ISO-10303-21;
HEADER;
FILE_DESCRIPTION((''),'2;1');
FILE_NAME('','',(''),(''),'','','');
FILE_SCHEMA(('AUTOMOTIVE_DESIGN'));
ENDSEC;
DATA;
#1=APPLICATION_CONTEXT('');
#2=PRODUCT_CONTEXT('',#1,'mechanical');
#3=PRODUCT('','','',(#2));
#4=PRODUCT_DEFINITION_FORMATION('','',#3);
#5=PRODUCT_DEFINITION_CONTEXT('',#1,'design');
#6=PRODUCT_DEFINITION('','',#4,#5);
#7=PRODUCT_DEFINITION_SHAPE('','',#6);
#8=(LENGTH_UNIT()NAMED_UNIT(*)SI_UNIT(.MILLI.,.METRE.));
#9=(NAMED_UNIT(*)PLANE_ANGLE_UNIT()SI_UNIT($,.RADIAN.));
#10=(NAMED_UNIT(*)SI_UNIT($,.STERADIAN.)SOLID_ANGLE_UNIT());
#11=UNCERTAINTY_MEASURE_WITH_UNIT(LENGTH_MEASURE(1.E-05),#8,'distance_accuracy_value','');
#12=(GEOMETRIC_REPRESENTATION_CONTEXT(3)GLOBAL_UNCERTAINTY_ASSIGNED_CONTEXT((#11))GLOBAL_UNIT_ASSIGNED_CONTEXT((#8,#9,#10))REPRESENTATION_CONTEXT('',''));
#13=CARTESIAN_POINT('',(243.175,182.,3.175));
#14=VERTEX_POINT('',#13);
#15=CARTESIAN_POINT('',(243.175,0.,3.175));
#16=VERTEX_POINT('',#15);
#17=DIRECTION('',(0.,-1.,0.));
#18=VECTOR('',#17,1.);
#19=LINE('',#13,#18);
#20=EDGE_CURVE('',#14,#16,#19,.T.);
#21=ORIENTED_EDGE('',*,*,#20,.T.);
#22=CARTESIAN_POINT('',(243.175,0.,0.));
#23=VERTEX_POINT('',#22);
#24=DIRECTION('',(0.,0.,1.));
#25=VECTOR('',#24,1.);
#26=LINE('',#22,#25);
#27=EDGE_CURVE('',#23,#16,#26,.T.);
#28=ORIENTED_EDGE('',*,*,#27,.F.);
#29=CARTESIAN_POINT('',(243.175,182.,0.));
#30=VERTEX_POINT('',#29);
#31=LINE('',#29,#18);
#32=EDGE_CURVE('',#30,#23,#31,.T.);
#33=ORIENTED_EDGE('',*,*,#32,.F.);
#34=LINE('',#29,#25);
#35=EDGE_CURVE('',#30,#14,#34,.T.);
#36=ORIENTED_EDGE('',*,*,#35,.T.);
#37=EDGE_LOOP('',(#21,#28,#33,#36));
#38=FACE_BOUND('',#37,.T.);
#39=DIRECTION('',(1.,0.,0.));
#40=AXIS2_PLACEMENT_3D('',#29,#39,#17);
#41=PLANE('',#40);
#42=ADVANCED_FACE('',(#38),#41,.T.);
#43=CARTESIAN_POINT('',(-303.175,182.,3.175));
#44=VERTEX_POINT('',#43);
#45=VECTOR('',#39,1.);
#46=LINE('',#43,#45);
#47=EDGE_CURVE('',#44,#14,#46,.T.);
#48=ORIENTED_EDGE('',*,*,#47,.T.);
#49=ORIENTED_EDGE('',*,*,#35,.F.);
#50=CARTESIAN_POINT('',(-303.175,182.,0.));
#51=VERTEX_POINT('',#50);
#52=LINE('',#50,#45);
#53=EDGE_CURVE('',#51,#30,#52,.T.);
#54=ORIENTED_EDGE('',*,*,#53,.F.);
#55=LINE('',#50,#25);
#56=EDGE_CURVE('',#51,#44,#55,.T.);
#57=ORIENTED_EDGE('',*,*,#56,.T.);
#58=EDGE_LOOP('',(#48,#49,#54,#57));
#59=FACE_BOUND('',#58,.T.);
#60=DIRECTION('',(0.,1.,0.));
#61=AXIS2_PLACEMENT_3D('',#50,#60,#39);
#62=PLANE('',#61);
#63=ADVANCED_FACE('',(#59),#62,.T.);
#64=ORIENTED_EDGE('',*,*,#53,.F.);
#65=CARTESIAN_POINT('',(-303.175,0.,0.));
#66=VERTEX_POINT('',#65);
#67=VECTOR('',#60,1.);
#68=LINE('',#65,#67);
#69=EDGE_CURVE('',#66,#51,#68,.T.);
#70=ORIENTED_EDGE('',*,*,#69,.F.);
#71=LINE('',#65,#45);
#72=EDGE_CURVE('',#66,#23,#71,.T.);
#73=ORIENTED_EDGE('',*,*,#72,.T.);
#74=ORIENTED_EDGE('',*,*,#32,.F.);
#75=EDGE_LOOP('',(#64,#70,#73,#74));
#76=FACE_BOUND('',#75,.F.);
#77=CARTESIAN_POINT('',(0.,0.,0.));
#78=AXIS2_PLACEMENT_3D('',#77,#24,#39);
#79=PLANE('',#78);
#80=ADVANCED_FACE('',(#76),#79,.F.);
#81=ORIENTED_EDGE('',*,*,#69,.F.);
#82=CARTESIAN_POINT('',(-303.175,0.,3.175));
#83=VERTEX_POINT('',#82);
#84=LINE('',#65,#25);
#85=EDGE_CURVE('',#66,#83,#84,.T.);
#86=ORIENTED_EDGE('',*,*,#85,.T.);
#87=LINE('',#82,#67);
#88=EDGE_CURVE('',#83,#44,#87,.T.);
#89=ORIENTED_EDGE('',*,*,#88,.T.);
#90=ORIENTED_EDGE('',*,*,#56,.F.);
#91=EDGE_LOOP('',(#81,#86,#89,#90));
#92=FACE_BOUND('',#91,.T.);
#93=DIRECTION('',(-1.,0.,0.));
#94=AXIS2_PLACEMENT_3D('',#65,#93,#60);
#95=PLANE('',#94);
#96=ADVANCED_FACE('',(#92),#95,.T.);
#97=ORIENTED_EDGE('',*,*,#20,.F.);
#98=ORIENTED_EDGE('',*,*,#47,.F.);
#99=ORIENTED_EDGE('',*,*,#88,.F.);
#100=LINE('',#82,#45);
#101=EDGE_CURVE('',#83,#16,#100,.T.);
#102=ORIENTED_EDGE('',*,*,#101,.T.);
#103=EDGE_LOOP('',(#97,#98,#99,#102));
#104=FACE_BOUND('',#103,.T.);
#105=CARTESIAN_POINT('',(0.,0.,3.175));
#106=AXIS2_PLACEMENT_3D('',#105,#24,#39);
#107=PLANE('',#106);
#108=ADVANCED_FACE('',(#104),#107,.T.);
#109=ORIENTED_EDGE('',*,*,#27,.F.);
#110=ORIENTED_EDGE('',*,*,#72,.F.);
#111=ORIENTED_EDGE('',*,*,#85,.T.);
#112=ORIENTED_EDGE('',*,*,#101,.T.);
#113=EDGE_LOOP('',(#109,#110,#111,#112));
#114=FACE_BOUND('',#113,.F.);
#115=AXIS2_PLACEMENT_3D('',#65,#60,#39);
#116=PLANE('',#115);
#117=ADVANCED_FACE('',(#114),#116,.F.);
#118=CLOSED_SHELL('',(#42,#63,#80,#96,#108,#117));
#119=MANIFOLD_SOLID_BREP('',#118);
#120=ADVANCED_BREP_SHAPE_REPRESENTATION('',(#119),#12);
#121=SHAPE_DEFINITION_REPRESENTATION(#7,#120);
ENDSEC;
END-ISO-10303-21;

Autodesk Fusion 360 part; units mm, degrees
ref_plane "WorkPlane12" through (0, -1, 0) normal (0, 1, 0) x (0, 0, 1)
sketch "MyStock" plane through (0, 0, 0) normal (0, 0, 1) x (1, 0, 0)
  line L0 (-303.175, 182) -> (243.175, 182)
  line L1 (243.175, 182) -> (243.175, 0)
  line L2 (-303.175, 0) -> (-303.175, 182)
  line L3 (-303.175, 0) -> (243.175, 0)
  dimension "d2016" = 243.175
  dimension "d2017" = 303.175
  dimension "d2102" = 182
extrude "Extrude21" add sketch "MyStock" along normal blind 3.175
sketch "Box Big part" plane through (0, 0, 0) normal (0, 0, 1) x (1, 0, 0)
  line L0 (-224.905, 0) -> (-240, 0)
  line L1 (0, 16.095) -> (0, 0)
  line L2 (-240, 0) -> (-224.905, 0)
  line L3 (-224.905, 0) -> (-224.905, 1.5613)
  line L4 (-223.7758, 3.175) -> (-216.2242, 3.175)
  line L5 (-215.095, 1.5613) -> (-215.095, 0)
  line L6 (-240, 16.095) -> (-238.4387, 16.095)
  line L7 (-236.825, 17.2242) -> (-236.825, 24.7758)
  line L8 (-238.4387, 25.905) -> (-240, 25.905)
  line L9 (-215.095, 0) -> (-204.905, 0)
  line L10 (1.75, 0) -> (22.5, 0)
  arc A0 (-215.095, 1.5613) -> (-216.2242, 3.175) centre (-215.5171, 2.4679) ccw
  arc A1 (-223.7758, 3.175) -> (-224.905, 1.5613) centre (-224.4829, 2.4679) ccw
  line L11 (-240, 0) -> (-240, 16.095)
  line L12 (-240, 25.905) -> (-240, 36.095)
  arc A2 (-238.4387, 16.095) -> (-236.825, 17.2242) centre (-237.5321, 16.5171) ccw
  arc A3 (-236.825, 24.7758) -> (-238.4387, 25.905) centre (-237.5321, 25.4829) ccw
  line L13 (-302, 91) -> (0, 91) construction
  line L14 (-120, -20) -> (-120, 200) construction
  arc A4 (-1.5613, 25.905) -> (-3.175, 24.7758) centre (-2.4679, 25.4829) ccw
  arc A5 (-3.175, 17.2242) -> (-1.5613, 16.095) centre (-2.4679, 16.5171) ccw
  line L15 (-3.175, 17.2242) -> (-3.175, 24.7758)
  line L16 (-1.5613, 25.905) -> (0, 25.905)
  line L17 (0, 25.905) -> (0, 36.095)
  line L18 (0, 16.095) -> (-1.5613, 16.095)
  line L19 (0, 16.095) -> (0, 0)
  line L20 (-215.095, 180.4387) -> (-215.095, 182)
  line L21 (-224.905, 182) -> (-224.905, 180.4387)
  line L22 (-215.095, 182) -> (-204.905, 182)
  arc A6 (-216.2242, 178.825) -> (-215.095, 180.4387) centre (-215.5171, 179.5321) ccw
  line L23 (-224.905, 182) -> (-240, 182)
  arc A7 (-224.905, 180.4387) -> (-223.7758, 178.825) centre (-224.4829, 179.5321) ccw
  line L24 (-223.7758, 178.825) -> (-216.2242, 178.825)
  line L25 (-240, 182) -> (-224.905, 182)
  arc A8 (-195.095, 1.5613) -> (-196.2242, 3.175) centre (-195.5171, 2.4679) ccw
  line L26 (-195.095, 1.5613) -> (-195.095, 0)
  arc A9 (-203.7758, 3.175) -> (-204.905, 1.5613) centre (-204.4829, 2.4679) ccw
  line L27 (-195.095, 0) -> (-184.905, 0)
  line L28 (-203.7758, 3.175) -> (-196.2242, 3.175)
  line L29 (-204.905, 0) -> (-204.905, 1.5613)
  arc A10 (-175.095, 1.5613) -> (-176.2242, 3.175) centre (-175.5171, 2.4679) ccw
  line L30 (-175.095, 1.5613) -> (-175.095, 0)
  arc A11 (-183.7758, 3.175) -> (-184.905, 1.5613) centre (-184.4829, 2.4679) ccw
  line L31 (-175.095, 0) -> (-164.905, 0)
  line L32 (-183.7758, 3.175) -> (-176.2242, 3.175)
  line L33 (-184.905, 0) -> (-184.905, 1.5613)
  arc A12 (-155.095, 1.5613) -> (-156.2242, 3.175) centre (-155.5171, 2.4679) ccw
  line L34 (-155.095, 1.5613) -> (-155.095, 0)
  arc A13 (-163.7758, 3.175) -> (-164.905, 1.5613) centre (-164.4829, 2.4679) ccw
  line L35 (-155.095, 0) -> (-144.905, 0)
  line L36 (-163.7758, 3.175) -> (-156.2242, 3.175)
  line L37 (-164.905, 0) -> (-164.905, 1.5613)
  arc A14 (-135.095, 1.5613) -> (-136.2242, 3.175) centre (-135.5171, 2.4679) ccw
  line L38 (-135.095, 1.5613) -> (-135.095, 0)
  arc A15 (-143.7758, 3.175) -> (-144.905, 1.5613) centre (-144.4829, 2.4679) ccw
  line L39 (-135.095, 0) -> (-124.905, 0)
  line L40 (-143.7758, 3.175) -> (-136.2242, 3.175)
  line L41 (-144.905, 0) -> (-144.905, 1.5613)
  arc A16 (-115.095, 1.5613) -> (-116.2242, 3.175) centre (-115.5171, 2.4679) ccw
  line L42 (-115.095, 1.5613) -> (-115.095, 0)
  arc A17 (-123.7758, 3.175) -> (-124.905, 1.5613) centre (-124.4829, 2.4679) ccw
  line L43 (-115.095, 0) -> (-104.905, 0)
  line L44 (-123.7758, 3.175) -> (-116.2242, 3.175)
  line L45 (-124.905, 0) -> (-124.905, 1.5613)
  arc A18 (-95.095, 1.5613) -> (-96.2242, 3.175) centre (-95.5171, 2.4679) ccw
  line L46 (-95.095, 1.5613) -> (-95.095, 0)
  arc A19 (-103.7758, 3.175) -> (-104.905, 1.5613) centre (-104.4829, 2.4679) ccw
  line L47 (-95.095, 0) -> (-84.905, 0)
  line L48 (-103.7758, 3.175) -> (-96.2242, 3.175)
  line L49 (-104.905, 0) -> (-104.905, 1.5613)
  line L50 (0, 0) -> (-4.905, 0)
  line L51 (-238.4387, 45.905) -> (-240, 45.905)
  line L52 (-240, 36.095) -> (-238.4387, 36.095)
  arc A20 (-238.4387, 36.095) -> (-236.825, 37.2242) centre (-237.5321, 36.5171) ccw
  line L53 (-240, 45.905) -> (-240, 56.095)
  arc A21 (-236.825, 44.7758) -> (-238.4387, 45.905) centre (-237.5321, 45.4829) ccw
  line L54 (-236.825, 37.2242) -> (-236.825, 44.7758)
  line L55 (-238.4387, 65.905) -> (-240, 65.905)
  line L56 (-240, 56.095) -> (-238.4387, 56.095)
  arc A22 (-238.4387, 56.095) -> (-236.825, 57.2242) centre (-237.5321, 56.5171) ccw
  line L57 (-240, 65.905) -> (-240, 76.095)
  arc A23 (-236.825, 64.7758) -> (-238.4387, 65.905) centre (-237.5321, 65.4829) ccw
  line L58 (-236.825, 57.2242) -> (-236.825, 64.7758)
  line L59 (-238.4387, 85.905) -> (-240, 85.905)
  line L60 (-240, 76.095) -> (-238.4387, 76.095)
  arc A24 (-238.4387, 76.095) -> (-236.825, 77.2242) centre (-237.5321, 76.5171) ccw
  line L61 (-240, 85.905) -> (-240, 96.095)
  arc A25 (-236.825, 84.7758) -> (-238.4387, 85.905) centre (-237.5321, 85.4829) ccw
  line L62 (-236.825, 77.2242) -> (-236.825, 84.7758)
  line L63 (-238.4387, 105.905) -> (-240, 105.905)
  line L64 (-240, 96.095) -> (-238.4387, 96.095)
  arc A26 (-238.4387, 96.095) -> (-236.825, 97.2242) centre (-237.5321, 96.5171) ccw
  line L65 (-240, 105.905) -> (-240, 116.095)
  arc A27 (-236.825, 104.7758) -> (-238.4387, 105.905) centre (-237.5321, 105.4829) ccw
  line L66 (-236.825, 97.2242) -> (-236.825, 104.7758)
  arc A28 (-196.2242, 178.825) -> (-195.095, 180.4387) centre (-195.5171, 179.5321) ccw
  line L67 (-195.095, 180.4387) -> (-195.095, 182)
  arc A29 (-204.905, 180.4387) -> (-203.7758, 178.825) centre (-204.4829, 179.5321) ccw
  line L68 (-203.7758, 178.825) -> (-196.2242, 178.825)
  line L69 (-204.905, 182) -> (-204.905, 180.4387)
  line L70 (-195.095, 182) -> (-184.905, 182)
  arc A30 (-176.2242, 178.825) -> (-175.095, 180.4387) centre (-175.5171, 179.5321) ccw
  line L71 (-175.095, 180.4387) -> (-175.095, 182)
  arc A31 (-184.905, 180.4387) -> (-183.7758, 178.825) centre (-184.4829, 179.5321) ccw
  line L72 (-183.7758, 178.825) -> (-176.2242, 178.825)
  line L73 (-184.905, 182) -> (-184.905, 180.4387)
  line L74 (-175.095, 182) -> (-164.905, 182)
  arc A32 (-156.2242, 178.825) -> (-155.095, 180.4387) centre (-155.5171, 179.5321) ccw
  line L75 (-155.095, 180.4387) -> (-155.095, 182)
  arc A33 (-164.905, 180.4387) -> (-163.7758, 178.825) centre (-164.4829, 179.5321) ccw
  line L76 (-163.7758, 178.825) -> (-156.2242, 178.825)
  line L77 (-164.905, 182) -> (-164.905, 180.4387)
  line L78 (-155.095, 182) -> (-144.905, 182)
  arc A34 (-136.2242, 178.825) -> (-135.095, 180.4387) centre (-135.5171, 179.5321) ccw
  line L79 (-135.095, 180.4387) -> (-135.095, 182)
  arc A35 (-144.905, 180.4387) -> (-143.7758, 178.825) centre (-144.4829, 179.5321) ccw
  line L80 (-143.7758, 178.825) -> (-136.2242, 178.825)
  line L81 (-144.905, 182) -> (-144.905, 180.4387)
  line L82 (-135.095, 182) -> (-124.905, 182)
  arc A36 (-116.2242, 178.825) -> (-115.095, 180.4387) centre (-115.5171, 179.5321) ccw
  line L83 (-115.095, 180.4387) -> (-115.095, 182)
  arc A37 (-124.905, 180.4387) -> (-123.7758, 178.825) centre (-124.4829, 179.5321) ccw
  line L84 (-123.7758, 178.825) -> (-116.2242, 178.825)
  line L85 (-124.905, 182) -> (-124.905, 180.4387)
  line L86 (-115.095, 182) -> (-104.905, 182)
  arc A38 (-96.2242, 178.825) -> (-95.095, 180.4387) centre (-95.5171, 179.5321) ccw
  line L87 (-95.095, 180.4387) -> (-95.095, 182)
  arc A39 (-104.905, 180.4387) -> (-103.7758, 178.825) centre (-104.4829, 179.5321) ccw
  line L88 (-103.7758, 178.825) -> (-96.2242, 178.825)
  line L89 (-104.905, 182) -> (-104.905, 180.4387)
  line L90 (-95.095, 182) -> (-84.905, 182)
  line L91 (0, 182) -> (-4.905, 182)
  line L92 (-3.175, 37.2242) -> (-3.175, 44.7758)
  line L93 (-1.5613, 45.905) -> (0, 45.905)
  line L94 (0, 45.905) -> (0, 56.095)
  arc A40 (-1.5613, 45.905) -> (-3.175, 44.7758) centre (-2.4679, 45.4829) ccw
  line L95 (0, 36.095) -> (-1.5613, 36.095)
  line L96 (-3.175, 57.2242) -> (-3.175, 64.7758)
  line L97 (-1.5613, 65.905) -> (0, 65.905)
  line L98 (0, 65.905) -> (0, 76.095)
  arc A41 (-1.5613, 65.905) -> (-3.175, 64.7758) centre (-2.4679, 65.4829) ccw
  line L99 (0, 56.095) -> (-1.5613, 56.095)
  line L100 (-3.175, 77.2242) -> (-3.175, 84.7758)
  line L101 (-1.5613, 85.905) -> (0, 85.905)
  line L102 (0, 85.905) -> (0, 96.095)
  arc A42 (-1.5613, 85.905) -> (-3.175, 84.7758) centre (-2.4679, 85.4829) ccw
  line L103 (0, 76.095) -> (-1.5613, 76.095)
  line L104 (-3.175, 97.2242) -> (-3.175, 104.7758)
  line L105 (-1.5613, 105.905) -> (0, 105.905)
  line L106 (0, 105.905) -> (0, 116.095)
  arc A43 (-1.5613, 105.905) -> (-3.175, 104.7758) centre (-2.4679, 105.4829) ccw
  line L107 (0, 96.095) -> (-1.5613, 96.095)
  arc A44 (-3.175, 37.2242) -> (-1.5613, 36.095) centre (-2.4679, 36.5171) ccw
  arc A45 (-3.175, 57.2242) -> (-1.5613, 56.095) centre (-2.4679, 56.5171) ccw
  arc A46 (-3.175, 77.2242) -> (-1.5613, 76.095) centre (-2.4679, 76.5171) ccw
  arc A47 (-3.175, 97.2242) -> (-1.5613, 96.095) centre (-2.4679, 96.5171) ccw
  line L108 (0, 182) -> (0, 176.095)
  line L109 (-240, 182) -> (-240, 176.095)
  arc A48 (-75.095, 1.5613) -> (-76.2242, 3.175) centre (-75.5171, 2.4679) ccw
  line L110 (-75.095, 1.5613) -> (-75.095, 0)
  arc A49 (-83.7758, 3.175) -> (-84.905, 1.5613) centre (-84.4829, 2.4679) ccw
  line L111 (-75.095, 0) -> (-64.905, 0)
  line L112 (-83.7758, 3.175) -> (-76.2242, 3.175)
  line L113 (-84.905, 0) -> (-84.905, 1.5613)
  arc A50 (-55.095, 1.5613) -> (-56.2242, 3.175) centre (-55.5171, 2.4679) ccw
  line L114 (-55.095, 1.5613) -> (-55.095, 0)
  arc A51 (-63.7758, 3.175) -> (-64.905, 1.5613) centre (-64.4829, 2.4679) ccw
  line L115 (-55.095, 0) -> (-44.905, 0)
  line L116 (-63.7758, 3.175) -> (-56.2242, 3.175)
  line L117 (-64.905, 0) -> (-64.905, 1.5613)
  line L118 (-238.4387, 125.905) -> (-240, 125.905)
  line L119 (-240, 116.095) -> (-238.4387, 116.095)
  arc A52 (-238.4387, 116.095) -> (-236.825, 117.2242) centre (-237.5321, 116.5171) ccw
  line L120 (-240, 125.905) -> (-240, 136.095)
  arc A53 (-236.825, 124.7758) -> (-238.4387, 125.905) centre (-237.5321, 125.4829) ccw
  line L121 (-236.825, 117.2242) -> (-236.825, 124.7758)
  line L122 (-238.4387, 145.905) -> (-240, 145.905)
  line L123 (-240, 136.095) -> (-238.4387, 136.095)
  arc A54 (-238.4387, 136.095) -> (-236.825, 137.2242) centre (-237.5321, 136.5171) ccw
  line L124 (-240, 145.905) -> (-240, 156.095)
  arc A55 (-236.825, 144.7758) -> (-238.4387, 145.905) centre (-237.5321, 145.4829) ccw
  line L125 (-236.825, 137.2242) -> (-236.825, 144.7758)
  arc A56 (-76.2242, 178.825) -> (-75.095, 180.4387) centre (-75.5171, 179.5321) ccw
  line L126 (-75.095, 180.4387) -> (-75.095, 182)
  arc A57 (-84.905, 180.4387) -> (-83.7758, 178.825) centre (-84.4829, 179.5321) ccw
  line L127 (-83.7758, 178.825) -> (-76.2242, 178.825)
  line L128 (-84.905, 182) -> (-84.905, 180.4387)
  line L129 (-75.095, 182) -> (-64.905, 182)
  arc A58 (-56.2242, 178.825) -> (-55.095, 180.4387) centre (-55.5171, 179.5321) ccw
  line L130 (-55.095, 180.4387) -> (-55.095, 182)
  arc A59 (-64.905, 180.4387) -> (-63.7758, 178.825) centre (-64.4829, 179.5321) ccw
  line L131 (-63.7758, 178.825) -> (-56.2242, 178.825)
  line L132 (-64.905, 182) -> (-64.905, 180.4387)
  line L133 (-55.095, 182) -> (-44.905, 182)
  line L134 (-3.175, 117.2242) -> (-3.175, 124.7758)
  line L135 (-1.5613, 125.905) -> (0, 125.905)
  line L136 (0, 125.905) -> (0, 136.095)
  arc A60 (-1.5613, 125.905) -> (-3.175, 124.7758) centre (-2.4679, 125.4829) ccw
  line L137 (0, 116.095) -> (-1.5613, 116.095)
  arc A61 (-3.175, 117.2242) -> (-1.5613, 116.095) centre (-2.4679, 116.5171) ccw
  line L138 (-3.175, 137.2242) -> (-3.175, 144.7758)
  line L139 (-1.5613, 145.905) -> (0, 145.905)
  line L140 (0, 145.905) -> (0, 156.095)
  arc A62 (-1.5613, 145.905) -> (-3.175, 144.7758) centre (-2.4679, 145.4829) ccw
  line L141 (0, 136.095) -> (-1.5613, 136.095)
  arc A63 (-3.175, 137.2242) -> (-1.5613, 136.095) centre (-2.4679, 136.5171) ccw
  arc A64 (-35.095, 1.5613) -> (-36.2242, 3.175) centre (-35.5171, 2.4679) ccw
  line L142 (-35.095, 1.5613) -> (-35.095, 0)
  arc A65 (-43.7758, 3.175) -> (-44.905, 1.5613) centre (-44.4829, 2.4679) ccw
  line L143 (-35.095, 0) -> (-24.905, 0)
  line L144 (-43.7758, 3.175) -> (-36.2242, 3.175)
  line L145 (-44.905, 0) -> (-44.905, 1.5613)
  arc A66 (-15.095, 1.5613) -> (-16.2242, 3.175) centre (-15.5171, 2.4679) ccw
  line L146 (-15.095, 1.5613) -> (-15.095, 0)
  arc A67 (-23.7758, 3.175) -> (-24.905, 1.5613) centre (-24.4829, 2.4679) ccw
  line L147 (-15.095, 0) -> (-4.905, 0)
  line L148 (-23.7758, 3.175) -> (-16.2242, 3.175)
  line L149 (-24.905, 0) -> (-24.905, 1.5613)
  line L150 (-238.4387, 165.905) -> (-240, 165.905)
  line L151 (-240, 156.095) -> (-238.4387, 156.095)
  arc A68 (-238.4387, 156.095) -> (-236.825, 157.2242) centre (-237.5321, 156.5171) ccw
  line L152 (-240, 165.905) -> (-240, 176.095)
  arc A69 (-236.825, 164.7758) -> (-238.4387, 165.905) centre (-237.5321, 165.4829) ccw
  line L153 (-236.825, 157.2242) -> (-236.825, 164.7758)
  arc A70 (-36.2242, 178.825) -> (-35.095, 180.4387) centre (-35.5171, 179.5321) ccw
  line L154 (-35.095, 180.4387) -> (-35.095, 182)
  arc A71 (-44.905, 180.4387) -> (-43.7758, 178.825) centre (-44.4829, 179.5321) ccw
  line L155 (-43.7758, 178.825) -> (-36.2242, 178.825)
  line L156 (-44.905, 182) -> (-44.905, 180.4387)
  line L157 (-35.095, 182) -> (-24.905, 182)
  arc A72 (-16.2242, 178.825) -> (-15.095, 180.4387) centre (-15.5171, 179.5321) ccw
  line L158 (-15.095, 180.4387) -> (-15.095, 182)
  arc A73 (-24.905, 180.4387) -> (-23.7758, 178.825) centre (-24.4829, 179.5321) ccw
  line L159 (-23.7758, 178.825) -> (-16.2242, 178.825)
  line L160 (-24.905, 182) -> (-24.905, 180.4387)
  line L161 (-15.095, 182) -> (-4.905, 182)
  line L162 (-3.175, 157.2242) -> (-3.175, 164.7758)
  line L163 (-1.5613, 165.905) -> (0, 165.905)
  line L164 (0, 165.905) -> (0, 176.095)
  arc A74 (-1.5613, 165.905) -> (-3.175, 164.7758) centre (-2.4679, 165.4829) ccw
  line L165 (0, 156.095) -> (-1.5613, 156.095)
  arc A75 (-3.175, 157.2242) -> (-1.5613, 156.095) centre (-2.4679, 156.5171) ccw
  dimension "d34" = 2
  dimension "d36" = 0.4221
  dimension "d37" = 0.7071
  dimension "d38" = 0.4221
  dimension "d48" = 2
  dimension "d49" = 0.4221
  dimension "d50" = 16.095
  dimension "d52" = 0.4221
  dimension "d54" = 0.7071
  dimension "d55" = 9.81
  dimension "d189" = 15.095
  dimension "d473" = 240
  dimension "d2062" = 10.19
  dimension "d2063" = 9.81
  dimension "d2064" = 3.175
  dimension "d2068" = 3.175
  dimension "d2069" = 10.19
  dimension "d2071" = 120
  dimension "d2074" = 20
  dimension "d2075" = 0
  dimension "d2076" = 4.905
  dimension "d2080" = 0
  dimension "d2081" = 20
  dimension "d2084" = 20
  dimension "d2085" = 0
  dimension "d2087" = 4.905
  dimension "d2088" = 182
  dimension "d2091" = 0
  dimension "d2092" = 20
  dimension "d2095" = 5.905
  dimension "d2097" = 5.905
  dimension "d2098" = 182
  dimension "d2103" = 91
sketch "Box Medium part" plane through (0, 0, 0) normal (0, 0, 1) x (1, 0, 0)
  line L0 (28.2242, 3.175) -> (35.7758, 3.175)
  line L1 (240.4387, 14.905) -> (242, 14.905)
  line L2 (238.825, 3.175) -> (238.825, 13.7758)
  line L3 (242, 25.095) -> (240.4387, 25.095)
  line L4 (2, 60) -> (242, 60) construction
  line L5 (27.095, 0) -> (27.095, 1.5613)
  line L6 (240.4387, 34.905) -> (242, 34.905)
  line L7 (5.175, 3.175) -> (15.7758, 3.175)
  line L8 (36.905, 1.5613) -> (36.905, 0)
  line L9 (242, 60) -> (242, 0) construction
  line L10 (238.825, 26.2242) -> (238.825, 33.7758)
  line L11 (16.905, 1.5613) -> (16.905, 0)
  line L12 (2, 3.175) -> (2, 0) construction
  arc A0 (16.905, 1.5613) -> (15.7758, 3.175) centre (16.4829, 2.4679) ccw
  arc A1 (28.2242, 3.175) -> (27.095, 1.5613) centre (27.5171, 2.4679) ccw
  arc A2 (36.905, 1.5613) -> (35.7758, 3.175) centre (36.4829, 2.4679) ccw
  arc A3 (240.4387, 14.905) -> (238.825, 13.7758) centre (239.5321, 14.4829) ccw
  line L13 (16.905, 0) -> (27.095, 0)
  line L14 (-22, 30) -> (297, 30) construction
  line L15 (122, -24.8824) -> (122, 81) construction
  arc A4 (238.825, 26.2242) -> (240.4387, 25.095) centre (239.5321, 25.5171) ccw
  arc A5 (240.4387, 34.905) -> (238.825, 33.7758) centre (239.5321, 34.4829) ccw
  line L16 (36.905, 0) -> (47.095, 0)
  line L17 (242, 34.905) -> (242, 45.095)
  line L18 (2, 3.175) -> (2, 30) construction
  line L19 (2, 60) -> (2, 61.175) construction
  line L20 (0, 0) -> (47.095, 0) construction
  line L21 (122, 0) -> (242, 0) construction
  line L22 (36.905, 58.4387) -> (36.905, 60)
  arc A6 (35.7758, 56.825) -> (36.905, 58.4387) centre (36.4829, 57.5321) ccw
  line L23 (36.905, 60) -> (47.095, 60)
  arc A7 (15.7758, 56.825) -> (16.905, 58.4387) centre (16.4829, 57.5321) ccw
  line L24 (27.095, 60) -> (27.095, 58.4387)
  line L25 (16.905, 58.4387) -> (16.905, 60)
  arc A8 (27.095, 58.4387) -> (28.2242, 56.825) centre (27.5171, 57.5321) ccw
  line L26 (16.905, 60) -> (27.095, 60)
  line L27 (28.2242, 56.825) -> (35.7758, 56.825)
  line L28 (0, 60) -> (47.095, 60) construction
  line L29 (5.175, 56.825) -> (15.7758, 56.825)
  line L30 (2, 56.825) -> (2, 60) construction
  line L31 (3.5613, 14.905) -> (2, 14.905)
  arc A9 (5.175, 33.7758) -> (3.5613, 34.905) centre (4.4679, 34.4829) ccw
  line L32 (5.175, 3.175) -> (5.175, 13.7758)
  line L33 (3.5613, 34.905) -> (2, 34.905)
  line L34 (5.175, 26.2242) -> (5.175, 33.7758)
  line L35 (2, 25.095) -> (3.5613, 25.095)
  arc A10 (5.175, 13.7758) -> (3.5613, 14.905) centre (4.4679, 14.4829) ccw
  arc A11 (3.5613, 25.095) -> (5.175, 26.2242) centre (4.4679, 25.5171) ccw
  line L36 (2, 34.905) -> (2, 45.095)
  arc A12 (56.905, 1.5613) -> (55.7758, 3.175) centre (56.4829, 2.4679) ccw
  line L37 (48.2242, 3.175) -> (55.7758, 3.175)
  arc A13 (48.2242, 3.175) -> (47.095, 1.5613) centre (47.5171, 2.4679) ccw
  line L38 (56.905, 0) -> (67.095, 0)
  line L39 (56.905, 1.5613) -> (56.905, 0)
  line L40 (47.095, 0) -> (47.095, 1.5613)
  arc A14 (76.905, 1.5613) -> (75.7758, 3.175) centre (76.4829, 2.4679) ccw
  line L41 (68.2242, 3.175) -> (75.7758, 3.175)
  arc A15 (68.2242, 3.175) -> (67.095, 1.5613) centre (67.5171, 2.4679) ccw
  line L42 (76.905, 0) -> (87.095, 0)
  line L43 (76.905, 1.5613) -> (76.905, 0)
  line L44 (67.095, 0) -> (67.095, 1.5613)
  arc A16 (96.905, 1.5613) -> (95.7758, 3.175) centre (96.4829, 2.4679) ccw
  line L45 (88.2242, 3.175) -> (95.7758, 3.175)
  arc A17 (88.2242, 3.175) -> (87.095, 1.5613) centre (87.5171, 2.4679) ccw
  line L46 (96.905, 0) -> (107.095, 0)
  line L47 (96.905, 1.5613) -> (96.905, 0)
  line L48 (87.095, 0) -> (87.095, 1.5613)
  arc A18 (116.905, 1.5613) -> (115.7758, 3.175) centre (116.4829, 2.4679) ccw
  line L49 (108.2242, 3.175) -> (115.7758, 3.175)
  arc A19 (108.2242, 3.175) -> (107.095, 1.5613) centre (107.5171, 2.4679) ccw
  line L50 (116.905, 0) -> (127.095, 0)
  line L51 (116.905, 1.5613) -> (116.905, 0)
  line L52 (107.095, 0) -> (107.095, 1.5613)
  arc A20 (136.905, 1.5613) -> (135.7758, 3.175) centre (136.4829, 2.4679) ccw
  line L53 (128.2242, 3.175) -> (135.7758, 3.175)
  arc A21 (128.2242, 3.175) -> (127.095, 1.5613) centre (127.5171, 2.4679) ccw
  line L54 (136.905, 0) -> (147.095, 0)
  line L55 (136.905, 1.5613) -> (136.905, 0)
  line L56 (127.095, 0) -> (127.095, 1.5613)
  line L57 (47.095, 60) -> (47.095, 58.4387)
  line L58 (48.2242, 56.825) -> (55.7758, 56.825)
  arc A22 (55.7758, 56.825) -> (56.905, 58.4387) centre (56.4829, 57.5321) ccw
  arc A23 (47.095, 58.4387) -> (48.2242, 56.825) centre (47.5171, 57.5321) ccw
  line L59 (56.905, 60) -> (67.095, 60)
  line L60 (56.905, 58.4387) -> (56.905, 60)
  line L61 (67.095, 60) -> (67.095, 58.4387)
  line L62 (68.2242, 56.825) -> (75.7758, 56.825)
  arc A24 (75.7758, 56.825) -> (76.905, 58.4387) centre (76.4829, 57.5321) ccw
  arc A25 (67.095, 58.4387) -> (68.2242, 56.825) centre (67.5171, 57.5321) ccw
  line L63 (76.905, 60) -> (87.095, 60)
  line L64 (76.905, 58.4387) -> (76.905, 60)
  line L65 (87.095, 60) -> (87.095, 58.4387)
  line L66 (88.2242, 56.825) -> (95.7758, 56.825)
  arc A26 (95.7758, 56.825) -> (96.905, 58.4387) centre (96.4829, 57.5321) ccw
  arc A27 (87.095, 58.4387) -> (88.2242, 56.825) centre (87.5171, 57.5321) ccw
  line L67 (96.905, 60) -> (107.095, 60)
  line L68 (96.905, 58.4387) -> (96.905, 60)
  line L69 (107.095, 60) -> (107.095, 58.4387)
  line L70 (108.2242, 56.825) -> (115.7758, 56.825)
  arc A28 (115.7758, 56.825) -> (116.905, 58.4387) centre (116.4829, 57.5321) ccw
  arc A29 (107.095, 58.4387) -> (108.2242, 56.825) centre (107.5171, 57.5321) ccw
  line L71 (116.905, 60) -> (127.095, 60)
  line L72 (116.905, 58.4387) -> (116.905, 60)
  line L73 (127.095, 60) -> (127.095, 58.4387)
  line L74 (128.2242, 56.825) -> (135.7758, 56.825)
  arc A30 (135.7758, 56.825) -> (136.905, 58.4387) centre (136.4829, 57.5321) ccw
  arc A31 (127.095, 58.4387) -> (128.2242, 56.825) centre (127.5171, 57.5321) ccw
  line L75 (136.905, 60) -> (147.095, 60)
  line L76 (136.905, 58.4387) -> (136.905, 60)
  line L77 (227.095, 1.5613) -> (227.095, 0)
  arc A32 (228.2242, 3.175) -> (227.095, 1.5613) centre (227.5171, 2.4679) ccw
  line L78 (238.825, 3.175) -> (228.2242, 3.175)
  line L79 (244, 0) -> (196.905, 0) construction
  line L80 (242, 56.825) -> (242, 60) construction
  line L81 (227.095, 58.4387) -> (227.095, 60)
  line L82 (242, 60) -> (242, 61.175) construction
  arc A33 (227.095, 58.4387) -> (228.2242, 56.825) centre (227.5171, 57.5321) ccw
  line L83 (238.825, 56.825) -> (228.2242, 56.825)
  line L84 (2, 14.905) -> (2, 25.095)
  arc A34 (3.5613, 45.095) -> (5.175, 46.2242) centre (4.4679, 45.5171) ccw
  line L85 (3.5613, 45.095) -> (2, 45.095)
  line L86 (5.175, 56.825) -> (5.175, 46.2242)
  arc A35 (238.825, 46.2242) -> (240.4387, 45.095) centre (239.5321, 45.5171) ccw
  line L87 (240.4387, 45.095) -> (242, 45.095)
  line L88 (238.825, 56.825) -> (238.825, 46.2242)
  line L89 (242, 25.095) -> (242, 14.905)
  arc A36 (156.905, 1.5613) -> (155.7758, 3.175) centre (156.4829, 2.4679) ccw
  line L90 (148.2242, 3.175) -> (155.7758, 3.175)
  arc A37 (148.2242, 3.175) -> (147.095, 1.5613) centre (147.5171, 2.4679) ccw
  line L91 (156.905, 0) -> (167.095, 0)
  line L92 (156.905, 1.5613) -> (156.905, 0)
  line L93 (147.095, 0) -> (147.095, 1.5613)
  arc A38 (176.905, 1.5613) -> (175.7758, 3.175) centre (176.4829, 2.4679) ccw
  line L94 (168.2242, 3.175) -> (175.7758, 3.175)
  arc A39 (168.2242, 3.175) -> (167.095, 1.5613) centre (167.5171, 2.4679) ccw
  line L95 (176.905, 0) -> (187.095, 0)
  line L96 (176.905, 1.5613) -> (176.905, 0)
  line L97 (167.095, 0) -> (167.095, 1.5613)
  line L98 (147.095, 60) -> (147.095, 58.4387)
  line L99 (148.2242, 56.825) -> (155.7758, 56.825)
  arc A40 (155.7758, 56.825) -> (156.905, 58.4387) centre (156.4829, 57.5321) ccw
  arc A41 (147.095, 58.4387) -> (148.2242, 56.825) centre (147.5171, 57.5321) ccw
  line L100 (156.905, 60) -> (167.095, 60)
  line L101 (156.905, 58.4387) -> (156.905, 60)
  line L102 (167.095, 60) -> (167.095, 58.4387)
  line L103 (168.2242, 56.825) -> (175.7758, 56.825)
  arc A42 (175.7758, 56.825) -> (176.905, 58.4387) centre (176.4829, 57.5321) ccw
  arc A43 (167.095, 58.4387) -> (168.2242, 56.825) centre (167.5171, 57.5321) ccw
  line L104 (176.905, 60) -> (187.095, 60)
  line L105 (176.905, 58.4387) -> (176.905, 60)
  arc A44 (196.905, 1.5613) -> (195.7758, 3.175) centre (196.4829, 2.4679) ccw
  line L106 (188.2242, 3.175) -> (195.7758, 3.175)
  arc A45 (188.2242, 3.175) -> (187.095, 1.5613) centre (187.5171, 2.4679) ccw
  line L107 (196.905, 0) -> (207.095, 0)
  line L108 (196.905, 1.5613) -> (196.905, 0)
  line L109 (187.095, 0) -> (187.095, 1.5613)
  arc A46 (216.905, 1.5613) -> (215.7758, 3.175) centre (216.4829, 2.4679) ccw
  line L110 (208.2242, 3.175) -> (215.7758, 3.175)
  arc A47 (208.2242, 3.175) -> (207.095, 1.5613) centre (207.5171, 2.4679) ccw
  line L111 (216.905, 0) -> (227.095, 0)
  line L112 (216.905, 1.5613) -> (216.905, 0)
  line L113 (207.095, 0) -> (207.095, 1.5613)
  line L114 (187.095, 60) -> (187.095, 58.4387)
  line L115 (188.2242, 56.825) -> (195.7758, 56.825)
  arc A48 (195.7758, 56.825) -> (196.905, 58.4387) centre (196.4829, 57.5321) ccw
  arc A49 (187.095, 58.4387) -> (188.2242, 56.825) centre (187.5171, 57.5321) ccw
  line L116 (196.905, 60) -> (207.095, 60)
  line L117 (196.905, 58.4387) -> (196.905, 60)
  line L118 (207.095, 60) -> (207.095, 58.4387)
  line L119 (208.2242, 56.825) -> (215.7758, 56.825)
  arc A50 (215.7758, 56.825) -> (216.905, 58.4387) centre (216.4829, 57.5321) ccw
  arc A51 (207.095, 58.4387) -> (208.2242, 56.825) centre (207.5171, 57.5321) ccw
  line L120 (216.905, 60) -> (227.095, 60)
  line L121 (216.905, 58.4387) -> (216.905, 60)
  point P0 (0, 60)
  point P1 (0, 60)
  point P2 (0, 60)
  point P3 (0, 60)
  point P4 (0, 60)
  point P5 (244, 60)
  point P6 (244, 60)
  point P7 (244, 60)
  point P8 (244, 60)
  point P9 (244, 60)
  point P10 (244, 60)
  dimension "d1829" = 60
  dimension "d1833" = 240
  dimension "d1834" = 2
  dimension "d1835" = 0.4221
  dimension "d1836" = 0.7071
  dimension "d1837" = 0.4221
  dimension "d1842" = 2
  dimension "d1843" = 0.7071
  dimension "d1844" = 0.4221
  dimension "d1845" = 2
  dimension "d1846" = 0.4221
  dimension "d1848" = 2
  dimension "d1849" = 0.4221
  dimension "d1850" = 10.19
  dimension "d1862" = 0.4221
  dimension "d2106" = 14.905
  dimension "d2107" = 2
  dimension "d2109" = 9.81
  dimension "d2110" = 10.19
  dimension "d2111" = 30
  dimension "d2112" = 122
  dimension "d2113" = 58
  dimension "d2114" = 242
  dimension "d2115" = 3.175
  dimension "d2116" = 3.175
  dimension "d2117" = 9.81
  dimension "d2118" = 10.19
  dimension "d2119" = 10.19
  dimension "d2122" = 11.73
  dimension "d2123" = 3.175
  dimension "d2126" = 20
  dimension "d2127" = 0
  dimension "d2130" = 20
  dimension "d2131" = 0
  dimension "d2134" = 0
  dimension "d2135" = 20
  dimension "d2138" = 0
  dimension "d2139" = 20
sketch "Box Small Part" plane through (0, 0, 0) normal (0, 0, 1) x (1, 0, 0)
  line L0 (-290.08, 0) -> (-290.08, 1.5613)
  line L1 (-245.175, 0) -> (-245.175, 14.7758)
  line L2 (-243.5613, 35.905) -> (-242, 35.905)
  line L3 (-288.9508, 3.175) -> (-281.3992, 3.175)
  line L4 (-280.27, 1.5613) -> (-280.27, 0)
  line L5 (-243.5613, 15.905) -> (-242, 15.905)
  line L6 (-242, 26.095) -> (-242, 15.905)
  arc A0 (-243.5613, 15.905) -> (-245.175, 14.7758) centre (-244.4679, 15.4829) ccw
  arc A1 (-245.175, 27.2242) -> (-243.5613, 26.095) centre (-244.4679, 26.5171) ccw
  line L7 (-242, 26.095) -> (-243.5613, 26.095)
  line L8 (-245.175, 27.2242) -> (-245.175, 34.7758)
  arc A2 (-243.5613, 35.905) -> (-245.175, 34.7758) centre (-244.4679, 35.4829) ccw
  line L9 (-270.08, 0) -> (-280.27, 0)
  line L10 (-290.08, 0) -> (-302, 0)
  arc A3 (-288.9508, 3.175) -> (-290.08, 1.5613) centre (-289.6579, 2.4679) ccw
  arc A4 (-280.27, 1.5613) -> (-281.3992, 3.175) centre (-280.6921, 2.4679) ccw
  line L11 (-242, 46.095) -> (-242, 35.905)
  line L12 (-394.5485, 91) -> (-201, 91) construction
  arc A5 (-245.175, 167.2242) -> (-243.5613, 166.095) centre (-244.4679, 166.5171) ccw
  line L13 (-245.175, 182) -> (-245.175, 167.2242)
  line L14 (-243.5613, 166.095) -> (-242, 166.095)
  line L15 (-273.5875, 83.2945) -> (-273.5875, 109.2184) construction
  arc A6 (-245.175, 167.2242) -> (-243.5613, 166.095) centre (-244.4679, 166.5171) ccw
  line L16 (-243.5613, 166.095) -> (-242, 166.095)
  line L17 (-245.175, 182) -> (-245.175, 167.2242)
  line L18 (-242, 155.905) -> (-242, 166.095)
  line L19 (-302, 27.2242) -> (-302, 34.7758)
  line L20 (-302, 0) -> (-302, 14.7758)
  line L21 (-305.175, 26.095) -> (-305.175, 15.905)
  arc A7 (-302, 14.7758) -> (-303.6137, 15.905) centre (-302.7071, 15.4829) ccw
  line L22 (-305.175, 46.095) -> (-305.175, 35.905)
  line L23 (-303.6137, 15.905) -> (-305.175, 15.905)
  line L24 (-303.6137, 35.905) -> (-305.175, 35.905)
  line L25 (-305.175, 26.095) -> (-303.6137, 26.095)
  arc A8 (-302, 34.7758) -> (-303.6137, 35.905) centre (-302.7071, 35.4829) ccw
  arc A9 (-303.6137, 26.095) -> (-302, 27.2242) centre (-302.7071, 26.5171) ccw
  line L26 (-280.27, 180.4387) -> (-280.27, 182)
  line L27 (-288.9508, 178.825) -> (-281.3992, 178.825)
  line L28 (-270.08, 182) -> (-280.27, 182)
  arc A10 (-290.08, 180.4387) -> (-288.9508, 178.825) centre (-289.6579, 179.5321) ccw
  line L29 (-290.08, 182) -> (-290.08, 180.4387)
  arc A11 (-281.3992, 178.825) -> (-280.27, 180.4387) centre (-280.6921, 179.5321) ccw
  line L30 (-290.08, 182) -> (-302, 182)
  line L31 (-305.175, 155.905) -> (-305.175, 166.095)
  arc A12 (-303.6137, 166.095) -> (-302, 167.2242) centre (-302.7071, 166.5171) ccw
  line L32 (-303.6137, 166.095) -> (-305.175, 166.095)
  line L33 (-302, 182) -> (-302, 167.2242)
  arc A13 (-303.6137, 166.095) -> (-302, 167.2242) centre (-302.7071, 166.5171) ccw
  line L34 (-303.6137, 166.095) -> (-305.175, 166.095)
  line L35 (-302, 182) -> (-302, 167.2242)
  line L36 (-242, 66.095) -> (-242, 55.905)
  line L37 (-245.175, 47.2242) -> (-245.175, 54.7758)
  line L38 (-242, 46.095) -> (-243.5613, 46.095)
  line L39 (-243.5613, 55.905) -> (-242, 55.905)
  arc A14 (-245.175, 47.2242) -> (-243.5613, 46.095) centre (-244.4679, 46.5171) ccw
  arc A15 (-243.5613, 55.905) -> (-245.175, 54.7758) centre (-244.4679, 55.4829) ccw
  line L40 (-242, 86.095) -> (-242, 75.905)
  line L41 (-245.175, 67.2242) -> (-245.175, 74.7758)
  line L42 (-242, 66.095) -> (-243.5613, 66.095)
  line L43 (-243.5613, 75.905) -> (-242, 75.905)
  arc A16 (-245.175, 67.2242) -> (-243.5613, 66.095) centre (-244.4679, 66.5171) ccw
  arc A17 (-243.5613, 75.905) -> (-245.175, 74.7758) centre (-244.4679, 75.4829) ccw
  line L44 (-242, 106.095) -> (-242, 95.905)
  line L45 (-245.175, 87.2242) -> (-245.175, 94.7758)
  line L46 (-242, 86.095) -> (-243.5613, 86.095)
  line L47 (-243.5613, 95.905) -> (-242, 95.905)
  arc A18 (-245.175, 87.2242) -> (-243.5613, 86.095) centre (-244.4679, 86.5171) ccw
  arc A19 (-243.5613, 95.905) -> (-245.175, 94.7758) centre (-244.4679, 95.4829) ccw
  line L48 (-303.6137, 55.905) -> (-305.175, 55.905)
  arc A20 (-303.6137, 46.095) -> (-302, 47.2242) centre (-302.7071, 46.5171) ccw
  arc A21 (-302, 54.7758) -> (-303.6137, 55.905) centre (-302.7071, 55.4829) ccw
  line L49 (-302, 47.2242) -> (-302, 54.7758)
  line L50 (-305.175, 46.095) -> (-303.6137, 46.095)
  line L51 (-305.175, 66.095) -> (-305.175, 55.905)
  line L52 (-303.6137, 75.905) -> (-305.175, 75.905)
  arc A22 (-303.6137, 66.095) -> (-302, 67.2242) centre (-302.7071, 66.5171) ccw
  arc A23 (-302, 74.7758) -> (-303.6137, 75.905) centre (-302.7071, 75.4829) ccw
  line L53 (-302, 67.2242) -> (-302, 74.7758)
  line L54 (-305.175, 66.095) -> (-303.6137, 66.095)
  line L55 (-305.175, 86.095) -> (-305.175, 75.905)
  line L56 (-303.6137, 95.905) -> (-305.175, 95.905)
  arc A24 (-303.6137, 86.095) -> (-302, 87.2242) centre (-302.7071, 86.5171) ccw
  arc A25 (-302, 94.7758) -> (-303.6137, 95.905) centre (-302.7071, 95.4829) ccw
  line L57 (-302, 87.2242) -> (-302, 94.7758)
  line L58 (-305.175, 86.095) -> (-303.6137, 86.095)
  line L59 (-305.175, 106.095) -> (-305.175, 95.905)
  line L60 (-245.175, 182) -> (-249.175, 182)
  line L61 (-245.175, 0) -> (-246.905, 0)
  line L62 (-242, 126.095) -> (-242, 115.905)
  line L63 (-245.175, 107.2242) -> (-245.175, 114.7758)
  line L64 (-242, 106.095) -> (-243.5613, 106.095)
  line L65 (-243.5613, 115.905) -> (-242, 115.905)
  arc A26 (-245.175, 107.2242) -> (-243.5613, 106.095) centre (-244.4679, 106.5171) ccw
  arc A27 (-243.5613, 115.905) -> (-245.175, 114.7758) centre (-244.4679, 115.4829) ccw
  line L66 (-303.6137, 115.905) -> (-305.175, 115.905)
  arc A28 (-303.6137, 106.095) -> (-302, 107.2242) centre (-302.7071, 106.5171) ccw
  arc A29 (-302, 114.7758) -> (-303.6137, 115.905) centre (-302.7071, 115.4829) ccw
  line L67 (-302, 107.2242) -> (-302, 114.7758)
  line L68 (-305.175, 106.095) -> (-303.6137, 106.095)
  line L69 (-305.175, 126.095) -> (-305.175, 115.905)
  arc A30 (-268.9508, 3.175) -> (-270.08, 1.5613) centre (-269.6579, 2.4679) ccw
  line L70 (-268.9508, 3.175) -> (-261.3992, 3.175)
  line L71 (-250.08, 0) -> (-260.27, 0)
  line L72 (-270.08, 0) -> (-270.08, 1.5613)
  line L73 (-260.27, 1.5613) -> (-260.27, 0)
  arc A31 (-260.27, 1.5613) -> (-261.3992, 3.175) centre (-260.6921, 2.4679) ccw
  line L74 (-250.08, 182) -> (-260.27, 182)
  line L75 (-260.27, 180.4387) -> (-260.27, 182)
  line L76 (-270.08, 182) -> (-270.08, 180.4387)
  arc A32 (-270.08, 180.4387) -> (-268.9508, 178.825) centre (-269.6579, 179.5321) ccw
  line L77 (-268.9508, 178.825) -> (-261.3992, 178.825)
  arc A33 (-261.3992, 178.825) -> (-260.27, 180.4387) centre (-260.6921, 179.5321) ccw
  line L78 (-242, 146.095) -> (-242, 135.905)
  line L79 (-245.175, 127.2242) -> (-245.175, 134.7758)
  line L80 (-242, 126.095) -> (-243.5613, 126.095)
  line L81 (-243.5613, 135.905) -> (-242, 135.905)
  arc A34 (-245.175, 127.2242) -> (-243.5613, 126.095) centre (-244.4679, 126.5171) ccw
  arc A35 (-243.5613, 135.905) -> (-245.175, 134.7758) centre (-244.4679, 135.4829) ccw
  line L82 (-303.6137, 135.905) -> (-305.175, 135.905)
  arc A36 (-303.6137, 126.095) -> (-302, 127.2242) centre (-302.7071, 126.5171) ccw
  arc A37 (-302, 134.7758) -> (-303.6137, 135.905) centre (-302.7071, 135.4829) ccw
  line L83 (-302, 127.2242) -> (-302, 134.7758)
  line L84 (-305.175, 126.095) -> (-303.6137, 126.095)
  line L85 (-305.175, 146.095) -> (-305.175, 135.905)
  line L86 (-242, 166.095) -> (-242, 155.905)
  line L87 (-245.175, 147.2242) -> (-245.175, 154.7758)
  line L88 (-242, 146.095) -> (-243.5613, 146.095)
  line L89 (-243.5613, 155.905) -> (-242, 155.905)
  arc A38 (-245.175, 147.2242) -> (-243.5613, 146.095) centre (-244.4679, 146.5171) ccw
  arc A39 (-243.5613, 155.905) -> (-245.175, 154.7758) centre (-244.4679, 155.4829) ccw
  line L90 (-303.6137, 155.905) -> (-305.175, 155.905)
  arc A40 (-303.6137, 146.095) -> (-302, 147.2242) centre (-302.7071, 146.5171) ccw
  arc A41 (-302, 154.7758) -> (-303.6137, 155.905) centre (-302.7071, 155.4829) ccw
  line L91 (-302, 147.2242) -> (-302, 154.7758)
  line L92 (-305.175, 146.095) -> (-303.6137, 146.095)
  line L93 (-305.175, 166.095) -> (-305.175, 155.905)
  dimension "d1887" = 2
  dimension "d1888" = 0.4221
  dimension "d1889" = 0.7071
  dimension "d1890" = 0.4221
  dimension "d1896" = 2
  dimension "d1899" = 2
  dimension "d1926" = 3.175
  dimension "d1948" = 0.7071
  dimension "d1949" = 0.4221
  dimension "d1951" = 0.4221
  dimension "d1953" = 9.81
  dimension "d1956" = 10.19
  dimension "d1958" = 0.4221
  dimension "d1959" = 0.7071
  dimension "d1960" = 0.7071
  dimension "d1961" = 9.81
  dimension "d1962" = 10.19
  dimension "d1963" = 242
  dimension "d1965" = 3.175
  dimension "d1974" = 91
  dimension "d1975" = 15.905
  dimension "d1976" = 10.19
  dimension "d1979" = 91
  dimension "d1989" = 15.095
  dimension "d1992" = 20
  dimension "d1993" = 20
  dimension "d1996" = 0
  dimension "d1997" = 20
  dimension "d2004" = 20
  dimension "d2005" = 0
  dimension "d2008" = 20
  dimension "d2009" = 0
  dimension "d2012" = 1.73
  dimension "d2099" = 302
equation "fingerWidth = 10 mm"
equation "length = 240 mm"
equation "thickness = 3.175 mm"
equation "height = 60 mm"
equation "toolDiameter = 2 mm"
equation "d34 = toolDiameter"
equation "d36 = boneCenterToHoleSide"
equation "d37 = boneCenterToHoleBottom"
equation "d38 = boneCenterToHoleSide"
equation "boneCenterToHoleBottom = toolDiameter / 2 / sqrt(2) - 0 * kerf" comment "Best: 2.001 -2*kerf, 0.1;;;Best: 2.001 no kerf and 0.1   OLD+6 kerf at 2.001 Diam and .1 mm"
equation "tempLengthPieces = ceil(( ( floor(( length - 2 * thickness ) / fingerWidth) - 2 ) - ( ( floor(( length - 2 * thickness ) / fingerWidth) - 2 ) % 2 - 1 ) ))"
equation "lengthCuts = ceil(tempLengthPieces / 2)"
equation "shoulderToothLength = ( length - fingerWidth * tempLengthPieces ) / 2 - kerf"
equation "depth = 182 mm"
equation "tempDepthPieces = ceil(( ( floor(( depth - 2 * thickness ) / fingerWidth) - 2 ) - ( ( floor(( depth - 2 * thickness ) / fingerWidth) - 2 ) % 2 - 1 ) ))"
equation "depthCuts = ceil(tempDepthPieces / 2)"
equation "shoulderToothDepth = ( depth - fingerWidth * tempDepthPieces ) / 2 - kerf"
equation "d48 = toolDiameter"
equation "d49 = boneCenterToHoleSide"
equation "d50 = shoulderToothDepth"
equation "d52 = boneCenterToHoleSide"
equation "d54 = boneCenterToHoleBottom"
equation "d55 = holeWidth"
equation "tempHeightPieces = ceil(( ( floor(( height - 2 * thickness ) / fingerWidth) - 2 ) - ( ( floor(( height - 2 * thickness ) / fingerWidth) - 2 ) % 2 - 1 ) ))"
equation "heightCuts = ceil(tempHeightPieces / 2)"
equation "sholderToothHeight = ( height - fingerWidth * tempHeightPieces ) / 2 - kerf"
equation "d189 = shoulderToothLength"
equation "kerf = -0.095 mm"
equation "holeWidth = fingerWidth + 2 * kerf"
equation "shoulderHoleLength = shoulderToothLength + 2 * kerf"
equation "shouderHoleDepth = shoulderToothDepth + 2 * kerf"
equation "shoulderHoleHeight = sholderToothHeight + 2 * kerf"
equation "assembleScrewDiam = 2.1 mm"
equation "assembleScrewDistance = 6 mm"
equation "assembleAvoidCollisionDistance = 1 mm"
equation "coolingHoleDistance = 8 mm"
equation "boneCornerToCenterPack = -3 * kerf"
equation "boneCenterToHoleSide = boneCenterToHoleBottom - boneCornerToCenterPack"
equation "d473 = length"
equation "d479 = -toolDiameter / 2"
equation "pumpLength = 52 mm"
equation "pumpCircleDiam = 30 mm"
equation "pumpHeight = 34 mm"
equation "sensorWireDistance = 10 mm"
equation "sensorWireDiam = 3.5 mm"
equation "pumpScrewDiam = 3 mm"
equation "pcbMountHoles = 2 mm"
equation "ventDiameter = 3 mm"
equation "platformGrommetMountDiameter = 3.5 mm"
equation "hangerWireDiameter = 2 mm"
equation "topPillowHoleDistance = 22 mm"
equation "d1829 = height"
equation "d1833 = length"
equation "d1834 = toolDiameter"
equation "d1835 = boneCenterToHoleSide"
equation "d1836 = boneCenterToHoleBottom"
equation "d1837 = boneCenterToHoleSide"
equation "d1842 = toolDiameter"
equation "d1843 = boneCenterToHoleBottom"
equation "d1844 = boneCenterToHoleSide"
equation "d1845 = toolDiameter"
equation "d1846 = boneCenterToHoleSide"
equation "d1848 = toolDiameter"
equation "d1849 = boneCenterToHoleSide"
equation "d1850 = fingerWidth - 2 * kerf"
equation "d1862 = boneCenterToHoleSide"
equation "d1887 = toolDiameter"
equation "d1888 = boneCenterToHoleSide"
equation "d1889 = boneCenterToHoleBottom"
equation "d1890 = boneCenterToHoleSide"
equation "d1896 = toolDiameter"
equation "d1899 = toolDiameter"
equation "d1926 = thickness"
equation "d1948 = boneCenterToHoleBottom"
equation "d1949 = boneCenterToHoleSide"
equation "d1951 = boneCenterToHoleSide"
equation "d1953 = holeWidth"
equation "d1956 = fingerWidth - 2 * kerf"
equation "d1958 = boneCenterToHoleSide"
equation "d1959 = boneCenterToHoleBottom"
equation "d1960 = boneCenterToHoleBottom"
equation "d1961 = holeWidth"
equation "d1962 = fingerWidth - 2 * kerf"
equation "d1963 = length + toolDiameter"
equation "d1965 = thickness"
equation "d1974 = depth / 2"
equation "d1975 = shouderHoleDepth"
equation "d1976 = fingerWidth - 2 * kerf"
equation "d1979 = depth / 2"
equation "d1989 = sholderToothHeight"
equation "d1991 = depthCuts - 1"
equation "d1992 = 2 * fingerWidth"
equation "d1993 = 2 * fingerWidth"
equation "d1995 = depthCuts - 1"
equation "d1997 = 2 * fingerWidth"
equation "d2002 = heightCuts"
equation "d2004 = 2 * fingerWidth"
equation "d2006 = heightCuts"
equation "d2008 = 2 * fingerWidth"
equation "d2012 = extraLineHeight"
equation "extraLineHeight = ( max(-appendix + ( sholderToothHeight - thickness ); 0.001 mm) )"
equation "appendix = fingerWidth - 2 * kerf"
equation "d2016 = thickness + length"
equation "d2017 = height + thickness + length"
equation "d2062 = appendix"
equation "d2063 = holeWidth"
equation "d2064 = thickness"
equation "d2068 = thickness"
equation "d2069 = appendix"
equation "d2071 = length / 2"
equation "d2072 = lengthCuts"
equation "d2074 = 2 * fingerWidth"
equation "d2076 = extraLineLength"
equation "extraLineLength = ( max(-appendix + ( shoulderToothLength ); 0.001 mm) )"
equation "d2079 = depthCuts"
equation "d2081 = 2 * fingerWidth"
equation "d2082 = lengthCuts"
equation "d2084 = 2 * fingerWidth"
equation "d2087 = extraLineLength"
equation "d2088 = depth"
equation "d2090 = depthCuts"
equation "d2092 = 2 * fingerWidth"
equation "d2095 = extraLineDepth"
equation "extraLineDepth = ( max(-appendix + ( shoulderToothDepth ); 0.001 mm) )"
equation "d2097 = extraLineDepth"
equation "d2098 = depth"
equation "d2099 = height + toolDiameter + length"
equation "d2102 = depth"
equation "d2103 = depth / 2"
equation "d2104 = thickness"
equation "d2106 = shoulderHoleLength"
equation "d2107 = toolDiameter"
equation "d2109 = holeWidth"
equation "d2110 = fingerWidth - 2 * kerf"
equation "d2111 = height / 2"
equation "d2112 = toolDiameter + length / 2"
equation "d2113 = height - toolDiameter"
equation "d2114 = length + toolDiameter"
equation "d2115 = thickness"
equation "d2116 = thickness"
equation "d2117 = holeWidth"
equation "d2118 = appendix"
equation "d2119 = appendix"
equation "d2122 = shoulderHoleHeight - thickness"
equation "d2124 = lengthCuts - 1"
equation "d2126 = 2 * fingerWidth"
equation "d2128 = lengthCuts - 1"
equation "d2130 = 2 * fingerWidth"
equation "d2133 = heightCuts - 1"
equation "d2135 = 2 * fingerWidth"
equation "d2137 = heightCuts - 1"
equation "d2139 = 2 * fingerWidth"
